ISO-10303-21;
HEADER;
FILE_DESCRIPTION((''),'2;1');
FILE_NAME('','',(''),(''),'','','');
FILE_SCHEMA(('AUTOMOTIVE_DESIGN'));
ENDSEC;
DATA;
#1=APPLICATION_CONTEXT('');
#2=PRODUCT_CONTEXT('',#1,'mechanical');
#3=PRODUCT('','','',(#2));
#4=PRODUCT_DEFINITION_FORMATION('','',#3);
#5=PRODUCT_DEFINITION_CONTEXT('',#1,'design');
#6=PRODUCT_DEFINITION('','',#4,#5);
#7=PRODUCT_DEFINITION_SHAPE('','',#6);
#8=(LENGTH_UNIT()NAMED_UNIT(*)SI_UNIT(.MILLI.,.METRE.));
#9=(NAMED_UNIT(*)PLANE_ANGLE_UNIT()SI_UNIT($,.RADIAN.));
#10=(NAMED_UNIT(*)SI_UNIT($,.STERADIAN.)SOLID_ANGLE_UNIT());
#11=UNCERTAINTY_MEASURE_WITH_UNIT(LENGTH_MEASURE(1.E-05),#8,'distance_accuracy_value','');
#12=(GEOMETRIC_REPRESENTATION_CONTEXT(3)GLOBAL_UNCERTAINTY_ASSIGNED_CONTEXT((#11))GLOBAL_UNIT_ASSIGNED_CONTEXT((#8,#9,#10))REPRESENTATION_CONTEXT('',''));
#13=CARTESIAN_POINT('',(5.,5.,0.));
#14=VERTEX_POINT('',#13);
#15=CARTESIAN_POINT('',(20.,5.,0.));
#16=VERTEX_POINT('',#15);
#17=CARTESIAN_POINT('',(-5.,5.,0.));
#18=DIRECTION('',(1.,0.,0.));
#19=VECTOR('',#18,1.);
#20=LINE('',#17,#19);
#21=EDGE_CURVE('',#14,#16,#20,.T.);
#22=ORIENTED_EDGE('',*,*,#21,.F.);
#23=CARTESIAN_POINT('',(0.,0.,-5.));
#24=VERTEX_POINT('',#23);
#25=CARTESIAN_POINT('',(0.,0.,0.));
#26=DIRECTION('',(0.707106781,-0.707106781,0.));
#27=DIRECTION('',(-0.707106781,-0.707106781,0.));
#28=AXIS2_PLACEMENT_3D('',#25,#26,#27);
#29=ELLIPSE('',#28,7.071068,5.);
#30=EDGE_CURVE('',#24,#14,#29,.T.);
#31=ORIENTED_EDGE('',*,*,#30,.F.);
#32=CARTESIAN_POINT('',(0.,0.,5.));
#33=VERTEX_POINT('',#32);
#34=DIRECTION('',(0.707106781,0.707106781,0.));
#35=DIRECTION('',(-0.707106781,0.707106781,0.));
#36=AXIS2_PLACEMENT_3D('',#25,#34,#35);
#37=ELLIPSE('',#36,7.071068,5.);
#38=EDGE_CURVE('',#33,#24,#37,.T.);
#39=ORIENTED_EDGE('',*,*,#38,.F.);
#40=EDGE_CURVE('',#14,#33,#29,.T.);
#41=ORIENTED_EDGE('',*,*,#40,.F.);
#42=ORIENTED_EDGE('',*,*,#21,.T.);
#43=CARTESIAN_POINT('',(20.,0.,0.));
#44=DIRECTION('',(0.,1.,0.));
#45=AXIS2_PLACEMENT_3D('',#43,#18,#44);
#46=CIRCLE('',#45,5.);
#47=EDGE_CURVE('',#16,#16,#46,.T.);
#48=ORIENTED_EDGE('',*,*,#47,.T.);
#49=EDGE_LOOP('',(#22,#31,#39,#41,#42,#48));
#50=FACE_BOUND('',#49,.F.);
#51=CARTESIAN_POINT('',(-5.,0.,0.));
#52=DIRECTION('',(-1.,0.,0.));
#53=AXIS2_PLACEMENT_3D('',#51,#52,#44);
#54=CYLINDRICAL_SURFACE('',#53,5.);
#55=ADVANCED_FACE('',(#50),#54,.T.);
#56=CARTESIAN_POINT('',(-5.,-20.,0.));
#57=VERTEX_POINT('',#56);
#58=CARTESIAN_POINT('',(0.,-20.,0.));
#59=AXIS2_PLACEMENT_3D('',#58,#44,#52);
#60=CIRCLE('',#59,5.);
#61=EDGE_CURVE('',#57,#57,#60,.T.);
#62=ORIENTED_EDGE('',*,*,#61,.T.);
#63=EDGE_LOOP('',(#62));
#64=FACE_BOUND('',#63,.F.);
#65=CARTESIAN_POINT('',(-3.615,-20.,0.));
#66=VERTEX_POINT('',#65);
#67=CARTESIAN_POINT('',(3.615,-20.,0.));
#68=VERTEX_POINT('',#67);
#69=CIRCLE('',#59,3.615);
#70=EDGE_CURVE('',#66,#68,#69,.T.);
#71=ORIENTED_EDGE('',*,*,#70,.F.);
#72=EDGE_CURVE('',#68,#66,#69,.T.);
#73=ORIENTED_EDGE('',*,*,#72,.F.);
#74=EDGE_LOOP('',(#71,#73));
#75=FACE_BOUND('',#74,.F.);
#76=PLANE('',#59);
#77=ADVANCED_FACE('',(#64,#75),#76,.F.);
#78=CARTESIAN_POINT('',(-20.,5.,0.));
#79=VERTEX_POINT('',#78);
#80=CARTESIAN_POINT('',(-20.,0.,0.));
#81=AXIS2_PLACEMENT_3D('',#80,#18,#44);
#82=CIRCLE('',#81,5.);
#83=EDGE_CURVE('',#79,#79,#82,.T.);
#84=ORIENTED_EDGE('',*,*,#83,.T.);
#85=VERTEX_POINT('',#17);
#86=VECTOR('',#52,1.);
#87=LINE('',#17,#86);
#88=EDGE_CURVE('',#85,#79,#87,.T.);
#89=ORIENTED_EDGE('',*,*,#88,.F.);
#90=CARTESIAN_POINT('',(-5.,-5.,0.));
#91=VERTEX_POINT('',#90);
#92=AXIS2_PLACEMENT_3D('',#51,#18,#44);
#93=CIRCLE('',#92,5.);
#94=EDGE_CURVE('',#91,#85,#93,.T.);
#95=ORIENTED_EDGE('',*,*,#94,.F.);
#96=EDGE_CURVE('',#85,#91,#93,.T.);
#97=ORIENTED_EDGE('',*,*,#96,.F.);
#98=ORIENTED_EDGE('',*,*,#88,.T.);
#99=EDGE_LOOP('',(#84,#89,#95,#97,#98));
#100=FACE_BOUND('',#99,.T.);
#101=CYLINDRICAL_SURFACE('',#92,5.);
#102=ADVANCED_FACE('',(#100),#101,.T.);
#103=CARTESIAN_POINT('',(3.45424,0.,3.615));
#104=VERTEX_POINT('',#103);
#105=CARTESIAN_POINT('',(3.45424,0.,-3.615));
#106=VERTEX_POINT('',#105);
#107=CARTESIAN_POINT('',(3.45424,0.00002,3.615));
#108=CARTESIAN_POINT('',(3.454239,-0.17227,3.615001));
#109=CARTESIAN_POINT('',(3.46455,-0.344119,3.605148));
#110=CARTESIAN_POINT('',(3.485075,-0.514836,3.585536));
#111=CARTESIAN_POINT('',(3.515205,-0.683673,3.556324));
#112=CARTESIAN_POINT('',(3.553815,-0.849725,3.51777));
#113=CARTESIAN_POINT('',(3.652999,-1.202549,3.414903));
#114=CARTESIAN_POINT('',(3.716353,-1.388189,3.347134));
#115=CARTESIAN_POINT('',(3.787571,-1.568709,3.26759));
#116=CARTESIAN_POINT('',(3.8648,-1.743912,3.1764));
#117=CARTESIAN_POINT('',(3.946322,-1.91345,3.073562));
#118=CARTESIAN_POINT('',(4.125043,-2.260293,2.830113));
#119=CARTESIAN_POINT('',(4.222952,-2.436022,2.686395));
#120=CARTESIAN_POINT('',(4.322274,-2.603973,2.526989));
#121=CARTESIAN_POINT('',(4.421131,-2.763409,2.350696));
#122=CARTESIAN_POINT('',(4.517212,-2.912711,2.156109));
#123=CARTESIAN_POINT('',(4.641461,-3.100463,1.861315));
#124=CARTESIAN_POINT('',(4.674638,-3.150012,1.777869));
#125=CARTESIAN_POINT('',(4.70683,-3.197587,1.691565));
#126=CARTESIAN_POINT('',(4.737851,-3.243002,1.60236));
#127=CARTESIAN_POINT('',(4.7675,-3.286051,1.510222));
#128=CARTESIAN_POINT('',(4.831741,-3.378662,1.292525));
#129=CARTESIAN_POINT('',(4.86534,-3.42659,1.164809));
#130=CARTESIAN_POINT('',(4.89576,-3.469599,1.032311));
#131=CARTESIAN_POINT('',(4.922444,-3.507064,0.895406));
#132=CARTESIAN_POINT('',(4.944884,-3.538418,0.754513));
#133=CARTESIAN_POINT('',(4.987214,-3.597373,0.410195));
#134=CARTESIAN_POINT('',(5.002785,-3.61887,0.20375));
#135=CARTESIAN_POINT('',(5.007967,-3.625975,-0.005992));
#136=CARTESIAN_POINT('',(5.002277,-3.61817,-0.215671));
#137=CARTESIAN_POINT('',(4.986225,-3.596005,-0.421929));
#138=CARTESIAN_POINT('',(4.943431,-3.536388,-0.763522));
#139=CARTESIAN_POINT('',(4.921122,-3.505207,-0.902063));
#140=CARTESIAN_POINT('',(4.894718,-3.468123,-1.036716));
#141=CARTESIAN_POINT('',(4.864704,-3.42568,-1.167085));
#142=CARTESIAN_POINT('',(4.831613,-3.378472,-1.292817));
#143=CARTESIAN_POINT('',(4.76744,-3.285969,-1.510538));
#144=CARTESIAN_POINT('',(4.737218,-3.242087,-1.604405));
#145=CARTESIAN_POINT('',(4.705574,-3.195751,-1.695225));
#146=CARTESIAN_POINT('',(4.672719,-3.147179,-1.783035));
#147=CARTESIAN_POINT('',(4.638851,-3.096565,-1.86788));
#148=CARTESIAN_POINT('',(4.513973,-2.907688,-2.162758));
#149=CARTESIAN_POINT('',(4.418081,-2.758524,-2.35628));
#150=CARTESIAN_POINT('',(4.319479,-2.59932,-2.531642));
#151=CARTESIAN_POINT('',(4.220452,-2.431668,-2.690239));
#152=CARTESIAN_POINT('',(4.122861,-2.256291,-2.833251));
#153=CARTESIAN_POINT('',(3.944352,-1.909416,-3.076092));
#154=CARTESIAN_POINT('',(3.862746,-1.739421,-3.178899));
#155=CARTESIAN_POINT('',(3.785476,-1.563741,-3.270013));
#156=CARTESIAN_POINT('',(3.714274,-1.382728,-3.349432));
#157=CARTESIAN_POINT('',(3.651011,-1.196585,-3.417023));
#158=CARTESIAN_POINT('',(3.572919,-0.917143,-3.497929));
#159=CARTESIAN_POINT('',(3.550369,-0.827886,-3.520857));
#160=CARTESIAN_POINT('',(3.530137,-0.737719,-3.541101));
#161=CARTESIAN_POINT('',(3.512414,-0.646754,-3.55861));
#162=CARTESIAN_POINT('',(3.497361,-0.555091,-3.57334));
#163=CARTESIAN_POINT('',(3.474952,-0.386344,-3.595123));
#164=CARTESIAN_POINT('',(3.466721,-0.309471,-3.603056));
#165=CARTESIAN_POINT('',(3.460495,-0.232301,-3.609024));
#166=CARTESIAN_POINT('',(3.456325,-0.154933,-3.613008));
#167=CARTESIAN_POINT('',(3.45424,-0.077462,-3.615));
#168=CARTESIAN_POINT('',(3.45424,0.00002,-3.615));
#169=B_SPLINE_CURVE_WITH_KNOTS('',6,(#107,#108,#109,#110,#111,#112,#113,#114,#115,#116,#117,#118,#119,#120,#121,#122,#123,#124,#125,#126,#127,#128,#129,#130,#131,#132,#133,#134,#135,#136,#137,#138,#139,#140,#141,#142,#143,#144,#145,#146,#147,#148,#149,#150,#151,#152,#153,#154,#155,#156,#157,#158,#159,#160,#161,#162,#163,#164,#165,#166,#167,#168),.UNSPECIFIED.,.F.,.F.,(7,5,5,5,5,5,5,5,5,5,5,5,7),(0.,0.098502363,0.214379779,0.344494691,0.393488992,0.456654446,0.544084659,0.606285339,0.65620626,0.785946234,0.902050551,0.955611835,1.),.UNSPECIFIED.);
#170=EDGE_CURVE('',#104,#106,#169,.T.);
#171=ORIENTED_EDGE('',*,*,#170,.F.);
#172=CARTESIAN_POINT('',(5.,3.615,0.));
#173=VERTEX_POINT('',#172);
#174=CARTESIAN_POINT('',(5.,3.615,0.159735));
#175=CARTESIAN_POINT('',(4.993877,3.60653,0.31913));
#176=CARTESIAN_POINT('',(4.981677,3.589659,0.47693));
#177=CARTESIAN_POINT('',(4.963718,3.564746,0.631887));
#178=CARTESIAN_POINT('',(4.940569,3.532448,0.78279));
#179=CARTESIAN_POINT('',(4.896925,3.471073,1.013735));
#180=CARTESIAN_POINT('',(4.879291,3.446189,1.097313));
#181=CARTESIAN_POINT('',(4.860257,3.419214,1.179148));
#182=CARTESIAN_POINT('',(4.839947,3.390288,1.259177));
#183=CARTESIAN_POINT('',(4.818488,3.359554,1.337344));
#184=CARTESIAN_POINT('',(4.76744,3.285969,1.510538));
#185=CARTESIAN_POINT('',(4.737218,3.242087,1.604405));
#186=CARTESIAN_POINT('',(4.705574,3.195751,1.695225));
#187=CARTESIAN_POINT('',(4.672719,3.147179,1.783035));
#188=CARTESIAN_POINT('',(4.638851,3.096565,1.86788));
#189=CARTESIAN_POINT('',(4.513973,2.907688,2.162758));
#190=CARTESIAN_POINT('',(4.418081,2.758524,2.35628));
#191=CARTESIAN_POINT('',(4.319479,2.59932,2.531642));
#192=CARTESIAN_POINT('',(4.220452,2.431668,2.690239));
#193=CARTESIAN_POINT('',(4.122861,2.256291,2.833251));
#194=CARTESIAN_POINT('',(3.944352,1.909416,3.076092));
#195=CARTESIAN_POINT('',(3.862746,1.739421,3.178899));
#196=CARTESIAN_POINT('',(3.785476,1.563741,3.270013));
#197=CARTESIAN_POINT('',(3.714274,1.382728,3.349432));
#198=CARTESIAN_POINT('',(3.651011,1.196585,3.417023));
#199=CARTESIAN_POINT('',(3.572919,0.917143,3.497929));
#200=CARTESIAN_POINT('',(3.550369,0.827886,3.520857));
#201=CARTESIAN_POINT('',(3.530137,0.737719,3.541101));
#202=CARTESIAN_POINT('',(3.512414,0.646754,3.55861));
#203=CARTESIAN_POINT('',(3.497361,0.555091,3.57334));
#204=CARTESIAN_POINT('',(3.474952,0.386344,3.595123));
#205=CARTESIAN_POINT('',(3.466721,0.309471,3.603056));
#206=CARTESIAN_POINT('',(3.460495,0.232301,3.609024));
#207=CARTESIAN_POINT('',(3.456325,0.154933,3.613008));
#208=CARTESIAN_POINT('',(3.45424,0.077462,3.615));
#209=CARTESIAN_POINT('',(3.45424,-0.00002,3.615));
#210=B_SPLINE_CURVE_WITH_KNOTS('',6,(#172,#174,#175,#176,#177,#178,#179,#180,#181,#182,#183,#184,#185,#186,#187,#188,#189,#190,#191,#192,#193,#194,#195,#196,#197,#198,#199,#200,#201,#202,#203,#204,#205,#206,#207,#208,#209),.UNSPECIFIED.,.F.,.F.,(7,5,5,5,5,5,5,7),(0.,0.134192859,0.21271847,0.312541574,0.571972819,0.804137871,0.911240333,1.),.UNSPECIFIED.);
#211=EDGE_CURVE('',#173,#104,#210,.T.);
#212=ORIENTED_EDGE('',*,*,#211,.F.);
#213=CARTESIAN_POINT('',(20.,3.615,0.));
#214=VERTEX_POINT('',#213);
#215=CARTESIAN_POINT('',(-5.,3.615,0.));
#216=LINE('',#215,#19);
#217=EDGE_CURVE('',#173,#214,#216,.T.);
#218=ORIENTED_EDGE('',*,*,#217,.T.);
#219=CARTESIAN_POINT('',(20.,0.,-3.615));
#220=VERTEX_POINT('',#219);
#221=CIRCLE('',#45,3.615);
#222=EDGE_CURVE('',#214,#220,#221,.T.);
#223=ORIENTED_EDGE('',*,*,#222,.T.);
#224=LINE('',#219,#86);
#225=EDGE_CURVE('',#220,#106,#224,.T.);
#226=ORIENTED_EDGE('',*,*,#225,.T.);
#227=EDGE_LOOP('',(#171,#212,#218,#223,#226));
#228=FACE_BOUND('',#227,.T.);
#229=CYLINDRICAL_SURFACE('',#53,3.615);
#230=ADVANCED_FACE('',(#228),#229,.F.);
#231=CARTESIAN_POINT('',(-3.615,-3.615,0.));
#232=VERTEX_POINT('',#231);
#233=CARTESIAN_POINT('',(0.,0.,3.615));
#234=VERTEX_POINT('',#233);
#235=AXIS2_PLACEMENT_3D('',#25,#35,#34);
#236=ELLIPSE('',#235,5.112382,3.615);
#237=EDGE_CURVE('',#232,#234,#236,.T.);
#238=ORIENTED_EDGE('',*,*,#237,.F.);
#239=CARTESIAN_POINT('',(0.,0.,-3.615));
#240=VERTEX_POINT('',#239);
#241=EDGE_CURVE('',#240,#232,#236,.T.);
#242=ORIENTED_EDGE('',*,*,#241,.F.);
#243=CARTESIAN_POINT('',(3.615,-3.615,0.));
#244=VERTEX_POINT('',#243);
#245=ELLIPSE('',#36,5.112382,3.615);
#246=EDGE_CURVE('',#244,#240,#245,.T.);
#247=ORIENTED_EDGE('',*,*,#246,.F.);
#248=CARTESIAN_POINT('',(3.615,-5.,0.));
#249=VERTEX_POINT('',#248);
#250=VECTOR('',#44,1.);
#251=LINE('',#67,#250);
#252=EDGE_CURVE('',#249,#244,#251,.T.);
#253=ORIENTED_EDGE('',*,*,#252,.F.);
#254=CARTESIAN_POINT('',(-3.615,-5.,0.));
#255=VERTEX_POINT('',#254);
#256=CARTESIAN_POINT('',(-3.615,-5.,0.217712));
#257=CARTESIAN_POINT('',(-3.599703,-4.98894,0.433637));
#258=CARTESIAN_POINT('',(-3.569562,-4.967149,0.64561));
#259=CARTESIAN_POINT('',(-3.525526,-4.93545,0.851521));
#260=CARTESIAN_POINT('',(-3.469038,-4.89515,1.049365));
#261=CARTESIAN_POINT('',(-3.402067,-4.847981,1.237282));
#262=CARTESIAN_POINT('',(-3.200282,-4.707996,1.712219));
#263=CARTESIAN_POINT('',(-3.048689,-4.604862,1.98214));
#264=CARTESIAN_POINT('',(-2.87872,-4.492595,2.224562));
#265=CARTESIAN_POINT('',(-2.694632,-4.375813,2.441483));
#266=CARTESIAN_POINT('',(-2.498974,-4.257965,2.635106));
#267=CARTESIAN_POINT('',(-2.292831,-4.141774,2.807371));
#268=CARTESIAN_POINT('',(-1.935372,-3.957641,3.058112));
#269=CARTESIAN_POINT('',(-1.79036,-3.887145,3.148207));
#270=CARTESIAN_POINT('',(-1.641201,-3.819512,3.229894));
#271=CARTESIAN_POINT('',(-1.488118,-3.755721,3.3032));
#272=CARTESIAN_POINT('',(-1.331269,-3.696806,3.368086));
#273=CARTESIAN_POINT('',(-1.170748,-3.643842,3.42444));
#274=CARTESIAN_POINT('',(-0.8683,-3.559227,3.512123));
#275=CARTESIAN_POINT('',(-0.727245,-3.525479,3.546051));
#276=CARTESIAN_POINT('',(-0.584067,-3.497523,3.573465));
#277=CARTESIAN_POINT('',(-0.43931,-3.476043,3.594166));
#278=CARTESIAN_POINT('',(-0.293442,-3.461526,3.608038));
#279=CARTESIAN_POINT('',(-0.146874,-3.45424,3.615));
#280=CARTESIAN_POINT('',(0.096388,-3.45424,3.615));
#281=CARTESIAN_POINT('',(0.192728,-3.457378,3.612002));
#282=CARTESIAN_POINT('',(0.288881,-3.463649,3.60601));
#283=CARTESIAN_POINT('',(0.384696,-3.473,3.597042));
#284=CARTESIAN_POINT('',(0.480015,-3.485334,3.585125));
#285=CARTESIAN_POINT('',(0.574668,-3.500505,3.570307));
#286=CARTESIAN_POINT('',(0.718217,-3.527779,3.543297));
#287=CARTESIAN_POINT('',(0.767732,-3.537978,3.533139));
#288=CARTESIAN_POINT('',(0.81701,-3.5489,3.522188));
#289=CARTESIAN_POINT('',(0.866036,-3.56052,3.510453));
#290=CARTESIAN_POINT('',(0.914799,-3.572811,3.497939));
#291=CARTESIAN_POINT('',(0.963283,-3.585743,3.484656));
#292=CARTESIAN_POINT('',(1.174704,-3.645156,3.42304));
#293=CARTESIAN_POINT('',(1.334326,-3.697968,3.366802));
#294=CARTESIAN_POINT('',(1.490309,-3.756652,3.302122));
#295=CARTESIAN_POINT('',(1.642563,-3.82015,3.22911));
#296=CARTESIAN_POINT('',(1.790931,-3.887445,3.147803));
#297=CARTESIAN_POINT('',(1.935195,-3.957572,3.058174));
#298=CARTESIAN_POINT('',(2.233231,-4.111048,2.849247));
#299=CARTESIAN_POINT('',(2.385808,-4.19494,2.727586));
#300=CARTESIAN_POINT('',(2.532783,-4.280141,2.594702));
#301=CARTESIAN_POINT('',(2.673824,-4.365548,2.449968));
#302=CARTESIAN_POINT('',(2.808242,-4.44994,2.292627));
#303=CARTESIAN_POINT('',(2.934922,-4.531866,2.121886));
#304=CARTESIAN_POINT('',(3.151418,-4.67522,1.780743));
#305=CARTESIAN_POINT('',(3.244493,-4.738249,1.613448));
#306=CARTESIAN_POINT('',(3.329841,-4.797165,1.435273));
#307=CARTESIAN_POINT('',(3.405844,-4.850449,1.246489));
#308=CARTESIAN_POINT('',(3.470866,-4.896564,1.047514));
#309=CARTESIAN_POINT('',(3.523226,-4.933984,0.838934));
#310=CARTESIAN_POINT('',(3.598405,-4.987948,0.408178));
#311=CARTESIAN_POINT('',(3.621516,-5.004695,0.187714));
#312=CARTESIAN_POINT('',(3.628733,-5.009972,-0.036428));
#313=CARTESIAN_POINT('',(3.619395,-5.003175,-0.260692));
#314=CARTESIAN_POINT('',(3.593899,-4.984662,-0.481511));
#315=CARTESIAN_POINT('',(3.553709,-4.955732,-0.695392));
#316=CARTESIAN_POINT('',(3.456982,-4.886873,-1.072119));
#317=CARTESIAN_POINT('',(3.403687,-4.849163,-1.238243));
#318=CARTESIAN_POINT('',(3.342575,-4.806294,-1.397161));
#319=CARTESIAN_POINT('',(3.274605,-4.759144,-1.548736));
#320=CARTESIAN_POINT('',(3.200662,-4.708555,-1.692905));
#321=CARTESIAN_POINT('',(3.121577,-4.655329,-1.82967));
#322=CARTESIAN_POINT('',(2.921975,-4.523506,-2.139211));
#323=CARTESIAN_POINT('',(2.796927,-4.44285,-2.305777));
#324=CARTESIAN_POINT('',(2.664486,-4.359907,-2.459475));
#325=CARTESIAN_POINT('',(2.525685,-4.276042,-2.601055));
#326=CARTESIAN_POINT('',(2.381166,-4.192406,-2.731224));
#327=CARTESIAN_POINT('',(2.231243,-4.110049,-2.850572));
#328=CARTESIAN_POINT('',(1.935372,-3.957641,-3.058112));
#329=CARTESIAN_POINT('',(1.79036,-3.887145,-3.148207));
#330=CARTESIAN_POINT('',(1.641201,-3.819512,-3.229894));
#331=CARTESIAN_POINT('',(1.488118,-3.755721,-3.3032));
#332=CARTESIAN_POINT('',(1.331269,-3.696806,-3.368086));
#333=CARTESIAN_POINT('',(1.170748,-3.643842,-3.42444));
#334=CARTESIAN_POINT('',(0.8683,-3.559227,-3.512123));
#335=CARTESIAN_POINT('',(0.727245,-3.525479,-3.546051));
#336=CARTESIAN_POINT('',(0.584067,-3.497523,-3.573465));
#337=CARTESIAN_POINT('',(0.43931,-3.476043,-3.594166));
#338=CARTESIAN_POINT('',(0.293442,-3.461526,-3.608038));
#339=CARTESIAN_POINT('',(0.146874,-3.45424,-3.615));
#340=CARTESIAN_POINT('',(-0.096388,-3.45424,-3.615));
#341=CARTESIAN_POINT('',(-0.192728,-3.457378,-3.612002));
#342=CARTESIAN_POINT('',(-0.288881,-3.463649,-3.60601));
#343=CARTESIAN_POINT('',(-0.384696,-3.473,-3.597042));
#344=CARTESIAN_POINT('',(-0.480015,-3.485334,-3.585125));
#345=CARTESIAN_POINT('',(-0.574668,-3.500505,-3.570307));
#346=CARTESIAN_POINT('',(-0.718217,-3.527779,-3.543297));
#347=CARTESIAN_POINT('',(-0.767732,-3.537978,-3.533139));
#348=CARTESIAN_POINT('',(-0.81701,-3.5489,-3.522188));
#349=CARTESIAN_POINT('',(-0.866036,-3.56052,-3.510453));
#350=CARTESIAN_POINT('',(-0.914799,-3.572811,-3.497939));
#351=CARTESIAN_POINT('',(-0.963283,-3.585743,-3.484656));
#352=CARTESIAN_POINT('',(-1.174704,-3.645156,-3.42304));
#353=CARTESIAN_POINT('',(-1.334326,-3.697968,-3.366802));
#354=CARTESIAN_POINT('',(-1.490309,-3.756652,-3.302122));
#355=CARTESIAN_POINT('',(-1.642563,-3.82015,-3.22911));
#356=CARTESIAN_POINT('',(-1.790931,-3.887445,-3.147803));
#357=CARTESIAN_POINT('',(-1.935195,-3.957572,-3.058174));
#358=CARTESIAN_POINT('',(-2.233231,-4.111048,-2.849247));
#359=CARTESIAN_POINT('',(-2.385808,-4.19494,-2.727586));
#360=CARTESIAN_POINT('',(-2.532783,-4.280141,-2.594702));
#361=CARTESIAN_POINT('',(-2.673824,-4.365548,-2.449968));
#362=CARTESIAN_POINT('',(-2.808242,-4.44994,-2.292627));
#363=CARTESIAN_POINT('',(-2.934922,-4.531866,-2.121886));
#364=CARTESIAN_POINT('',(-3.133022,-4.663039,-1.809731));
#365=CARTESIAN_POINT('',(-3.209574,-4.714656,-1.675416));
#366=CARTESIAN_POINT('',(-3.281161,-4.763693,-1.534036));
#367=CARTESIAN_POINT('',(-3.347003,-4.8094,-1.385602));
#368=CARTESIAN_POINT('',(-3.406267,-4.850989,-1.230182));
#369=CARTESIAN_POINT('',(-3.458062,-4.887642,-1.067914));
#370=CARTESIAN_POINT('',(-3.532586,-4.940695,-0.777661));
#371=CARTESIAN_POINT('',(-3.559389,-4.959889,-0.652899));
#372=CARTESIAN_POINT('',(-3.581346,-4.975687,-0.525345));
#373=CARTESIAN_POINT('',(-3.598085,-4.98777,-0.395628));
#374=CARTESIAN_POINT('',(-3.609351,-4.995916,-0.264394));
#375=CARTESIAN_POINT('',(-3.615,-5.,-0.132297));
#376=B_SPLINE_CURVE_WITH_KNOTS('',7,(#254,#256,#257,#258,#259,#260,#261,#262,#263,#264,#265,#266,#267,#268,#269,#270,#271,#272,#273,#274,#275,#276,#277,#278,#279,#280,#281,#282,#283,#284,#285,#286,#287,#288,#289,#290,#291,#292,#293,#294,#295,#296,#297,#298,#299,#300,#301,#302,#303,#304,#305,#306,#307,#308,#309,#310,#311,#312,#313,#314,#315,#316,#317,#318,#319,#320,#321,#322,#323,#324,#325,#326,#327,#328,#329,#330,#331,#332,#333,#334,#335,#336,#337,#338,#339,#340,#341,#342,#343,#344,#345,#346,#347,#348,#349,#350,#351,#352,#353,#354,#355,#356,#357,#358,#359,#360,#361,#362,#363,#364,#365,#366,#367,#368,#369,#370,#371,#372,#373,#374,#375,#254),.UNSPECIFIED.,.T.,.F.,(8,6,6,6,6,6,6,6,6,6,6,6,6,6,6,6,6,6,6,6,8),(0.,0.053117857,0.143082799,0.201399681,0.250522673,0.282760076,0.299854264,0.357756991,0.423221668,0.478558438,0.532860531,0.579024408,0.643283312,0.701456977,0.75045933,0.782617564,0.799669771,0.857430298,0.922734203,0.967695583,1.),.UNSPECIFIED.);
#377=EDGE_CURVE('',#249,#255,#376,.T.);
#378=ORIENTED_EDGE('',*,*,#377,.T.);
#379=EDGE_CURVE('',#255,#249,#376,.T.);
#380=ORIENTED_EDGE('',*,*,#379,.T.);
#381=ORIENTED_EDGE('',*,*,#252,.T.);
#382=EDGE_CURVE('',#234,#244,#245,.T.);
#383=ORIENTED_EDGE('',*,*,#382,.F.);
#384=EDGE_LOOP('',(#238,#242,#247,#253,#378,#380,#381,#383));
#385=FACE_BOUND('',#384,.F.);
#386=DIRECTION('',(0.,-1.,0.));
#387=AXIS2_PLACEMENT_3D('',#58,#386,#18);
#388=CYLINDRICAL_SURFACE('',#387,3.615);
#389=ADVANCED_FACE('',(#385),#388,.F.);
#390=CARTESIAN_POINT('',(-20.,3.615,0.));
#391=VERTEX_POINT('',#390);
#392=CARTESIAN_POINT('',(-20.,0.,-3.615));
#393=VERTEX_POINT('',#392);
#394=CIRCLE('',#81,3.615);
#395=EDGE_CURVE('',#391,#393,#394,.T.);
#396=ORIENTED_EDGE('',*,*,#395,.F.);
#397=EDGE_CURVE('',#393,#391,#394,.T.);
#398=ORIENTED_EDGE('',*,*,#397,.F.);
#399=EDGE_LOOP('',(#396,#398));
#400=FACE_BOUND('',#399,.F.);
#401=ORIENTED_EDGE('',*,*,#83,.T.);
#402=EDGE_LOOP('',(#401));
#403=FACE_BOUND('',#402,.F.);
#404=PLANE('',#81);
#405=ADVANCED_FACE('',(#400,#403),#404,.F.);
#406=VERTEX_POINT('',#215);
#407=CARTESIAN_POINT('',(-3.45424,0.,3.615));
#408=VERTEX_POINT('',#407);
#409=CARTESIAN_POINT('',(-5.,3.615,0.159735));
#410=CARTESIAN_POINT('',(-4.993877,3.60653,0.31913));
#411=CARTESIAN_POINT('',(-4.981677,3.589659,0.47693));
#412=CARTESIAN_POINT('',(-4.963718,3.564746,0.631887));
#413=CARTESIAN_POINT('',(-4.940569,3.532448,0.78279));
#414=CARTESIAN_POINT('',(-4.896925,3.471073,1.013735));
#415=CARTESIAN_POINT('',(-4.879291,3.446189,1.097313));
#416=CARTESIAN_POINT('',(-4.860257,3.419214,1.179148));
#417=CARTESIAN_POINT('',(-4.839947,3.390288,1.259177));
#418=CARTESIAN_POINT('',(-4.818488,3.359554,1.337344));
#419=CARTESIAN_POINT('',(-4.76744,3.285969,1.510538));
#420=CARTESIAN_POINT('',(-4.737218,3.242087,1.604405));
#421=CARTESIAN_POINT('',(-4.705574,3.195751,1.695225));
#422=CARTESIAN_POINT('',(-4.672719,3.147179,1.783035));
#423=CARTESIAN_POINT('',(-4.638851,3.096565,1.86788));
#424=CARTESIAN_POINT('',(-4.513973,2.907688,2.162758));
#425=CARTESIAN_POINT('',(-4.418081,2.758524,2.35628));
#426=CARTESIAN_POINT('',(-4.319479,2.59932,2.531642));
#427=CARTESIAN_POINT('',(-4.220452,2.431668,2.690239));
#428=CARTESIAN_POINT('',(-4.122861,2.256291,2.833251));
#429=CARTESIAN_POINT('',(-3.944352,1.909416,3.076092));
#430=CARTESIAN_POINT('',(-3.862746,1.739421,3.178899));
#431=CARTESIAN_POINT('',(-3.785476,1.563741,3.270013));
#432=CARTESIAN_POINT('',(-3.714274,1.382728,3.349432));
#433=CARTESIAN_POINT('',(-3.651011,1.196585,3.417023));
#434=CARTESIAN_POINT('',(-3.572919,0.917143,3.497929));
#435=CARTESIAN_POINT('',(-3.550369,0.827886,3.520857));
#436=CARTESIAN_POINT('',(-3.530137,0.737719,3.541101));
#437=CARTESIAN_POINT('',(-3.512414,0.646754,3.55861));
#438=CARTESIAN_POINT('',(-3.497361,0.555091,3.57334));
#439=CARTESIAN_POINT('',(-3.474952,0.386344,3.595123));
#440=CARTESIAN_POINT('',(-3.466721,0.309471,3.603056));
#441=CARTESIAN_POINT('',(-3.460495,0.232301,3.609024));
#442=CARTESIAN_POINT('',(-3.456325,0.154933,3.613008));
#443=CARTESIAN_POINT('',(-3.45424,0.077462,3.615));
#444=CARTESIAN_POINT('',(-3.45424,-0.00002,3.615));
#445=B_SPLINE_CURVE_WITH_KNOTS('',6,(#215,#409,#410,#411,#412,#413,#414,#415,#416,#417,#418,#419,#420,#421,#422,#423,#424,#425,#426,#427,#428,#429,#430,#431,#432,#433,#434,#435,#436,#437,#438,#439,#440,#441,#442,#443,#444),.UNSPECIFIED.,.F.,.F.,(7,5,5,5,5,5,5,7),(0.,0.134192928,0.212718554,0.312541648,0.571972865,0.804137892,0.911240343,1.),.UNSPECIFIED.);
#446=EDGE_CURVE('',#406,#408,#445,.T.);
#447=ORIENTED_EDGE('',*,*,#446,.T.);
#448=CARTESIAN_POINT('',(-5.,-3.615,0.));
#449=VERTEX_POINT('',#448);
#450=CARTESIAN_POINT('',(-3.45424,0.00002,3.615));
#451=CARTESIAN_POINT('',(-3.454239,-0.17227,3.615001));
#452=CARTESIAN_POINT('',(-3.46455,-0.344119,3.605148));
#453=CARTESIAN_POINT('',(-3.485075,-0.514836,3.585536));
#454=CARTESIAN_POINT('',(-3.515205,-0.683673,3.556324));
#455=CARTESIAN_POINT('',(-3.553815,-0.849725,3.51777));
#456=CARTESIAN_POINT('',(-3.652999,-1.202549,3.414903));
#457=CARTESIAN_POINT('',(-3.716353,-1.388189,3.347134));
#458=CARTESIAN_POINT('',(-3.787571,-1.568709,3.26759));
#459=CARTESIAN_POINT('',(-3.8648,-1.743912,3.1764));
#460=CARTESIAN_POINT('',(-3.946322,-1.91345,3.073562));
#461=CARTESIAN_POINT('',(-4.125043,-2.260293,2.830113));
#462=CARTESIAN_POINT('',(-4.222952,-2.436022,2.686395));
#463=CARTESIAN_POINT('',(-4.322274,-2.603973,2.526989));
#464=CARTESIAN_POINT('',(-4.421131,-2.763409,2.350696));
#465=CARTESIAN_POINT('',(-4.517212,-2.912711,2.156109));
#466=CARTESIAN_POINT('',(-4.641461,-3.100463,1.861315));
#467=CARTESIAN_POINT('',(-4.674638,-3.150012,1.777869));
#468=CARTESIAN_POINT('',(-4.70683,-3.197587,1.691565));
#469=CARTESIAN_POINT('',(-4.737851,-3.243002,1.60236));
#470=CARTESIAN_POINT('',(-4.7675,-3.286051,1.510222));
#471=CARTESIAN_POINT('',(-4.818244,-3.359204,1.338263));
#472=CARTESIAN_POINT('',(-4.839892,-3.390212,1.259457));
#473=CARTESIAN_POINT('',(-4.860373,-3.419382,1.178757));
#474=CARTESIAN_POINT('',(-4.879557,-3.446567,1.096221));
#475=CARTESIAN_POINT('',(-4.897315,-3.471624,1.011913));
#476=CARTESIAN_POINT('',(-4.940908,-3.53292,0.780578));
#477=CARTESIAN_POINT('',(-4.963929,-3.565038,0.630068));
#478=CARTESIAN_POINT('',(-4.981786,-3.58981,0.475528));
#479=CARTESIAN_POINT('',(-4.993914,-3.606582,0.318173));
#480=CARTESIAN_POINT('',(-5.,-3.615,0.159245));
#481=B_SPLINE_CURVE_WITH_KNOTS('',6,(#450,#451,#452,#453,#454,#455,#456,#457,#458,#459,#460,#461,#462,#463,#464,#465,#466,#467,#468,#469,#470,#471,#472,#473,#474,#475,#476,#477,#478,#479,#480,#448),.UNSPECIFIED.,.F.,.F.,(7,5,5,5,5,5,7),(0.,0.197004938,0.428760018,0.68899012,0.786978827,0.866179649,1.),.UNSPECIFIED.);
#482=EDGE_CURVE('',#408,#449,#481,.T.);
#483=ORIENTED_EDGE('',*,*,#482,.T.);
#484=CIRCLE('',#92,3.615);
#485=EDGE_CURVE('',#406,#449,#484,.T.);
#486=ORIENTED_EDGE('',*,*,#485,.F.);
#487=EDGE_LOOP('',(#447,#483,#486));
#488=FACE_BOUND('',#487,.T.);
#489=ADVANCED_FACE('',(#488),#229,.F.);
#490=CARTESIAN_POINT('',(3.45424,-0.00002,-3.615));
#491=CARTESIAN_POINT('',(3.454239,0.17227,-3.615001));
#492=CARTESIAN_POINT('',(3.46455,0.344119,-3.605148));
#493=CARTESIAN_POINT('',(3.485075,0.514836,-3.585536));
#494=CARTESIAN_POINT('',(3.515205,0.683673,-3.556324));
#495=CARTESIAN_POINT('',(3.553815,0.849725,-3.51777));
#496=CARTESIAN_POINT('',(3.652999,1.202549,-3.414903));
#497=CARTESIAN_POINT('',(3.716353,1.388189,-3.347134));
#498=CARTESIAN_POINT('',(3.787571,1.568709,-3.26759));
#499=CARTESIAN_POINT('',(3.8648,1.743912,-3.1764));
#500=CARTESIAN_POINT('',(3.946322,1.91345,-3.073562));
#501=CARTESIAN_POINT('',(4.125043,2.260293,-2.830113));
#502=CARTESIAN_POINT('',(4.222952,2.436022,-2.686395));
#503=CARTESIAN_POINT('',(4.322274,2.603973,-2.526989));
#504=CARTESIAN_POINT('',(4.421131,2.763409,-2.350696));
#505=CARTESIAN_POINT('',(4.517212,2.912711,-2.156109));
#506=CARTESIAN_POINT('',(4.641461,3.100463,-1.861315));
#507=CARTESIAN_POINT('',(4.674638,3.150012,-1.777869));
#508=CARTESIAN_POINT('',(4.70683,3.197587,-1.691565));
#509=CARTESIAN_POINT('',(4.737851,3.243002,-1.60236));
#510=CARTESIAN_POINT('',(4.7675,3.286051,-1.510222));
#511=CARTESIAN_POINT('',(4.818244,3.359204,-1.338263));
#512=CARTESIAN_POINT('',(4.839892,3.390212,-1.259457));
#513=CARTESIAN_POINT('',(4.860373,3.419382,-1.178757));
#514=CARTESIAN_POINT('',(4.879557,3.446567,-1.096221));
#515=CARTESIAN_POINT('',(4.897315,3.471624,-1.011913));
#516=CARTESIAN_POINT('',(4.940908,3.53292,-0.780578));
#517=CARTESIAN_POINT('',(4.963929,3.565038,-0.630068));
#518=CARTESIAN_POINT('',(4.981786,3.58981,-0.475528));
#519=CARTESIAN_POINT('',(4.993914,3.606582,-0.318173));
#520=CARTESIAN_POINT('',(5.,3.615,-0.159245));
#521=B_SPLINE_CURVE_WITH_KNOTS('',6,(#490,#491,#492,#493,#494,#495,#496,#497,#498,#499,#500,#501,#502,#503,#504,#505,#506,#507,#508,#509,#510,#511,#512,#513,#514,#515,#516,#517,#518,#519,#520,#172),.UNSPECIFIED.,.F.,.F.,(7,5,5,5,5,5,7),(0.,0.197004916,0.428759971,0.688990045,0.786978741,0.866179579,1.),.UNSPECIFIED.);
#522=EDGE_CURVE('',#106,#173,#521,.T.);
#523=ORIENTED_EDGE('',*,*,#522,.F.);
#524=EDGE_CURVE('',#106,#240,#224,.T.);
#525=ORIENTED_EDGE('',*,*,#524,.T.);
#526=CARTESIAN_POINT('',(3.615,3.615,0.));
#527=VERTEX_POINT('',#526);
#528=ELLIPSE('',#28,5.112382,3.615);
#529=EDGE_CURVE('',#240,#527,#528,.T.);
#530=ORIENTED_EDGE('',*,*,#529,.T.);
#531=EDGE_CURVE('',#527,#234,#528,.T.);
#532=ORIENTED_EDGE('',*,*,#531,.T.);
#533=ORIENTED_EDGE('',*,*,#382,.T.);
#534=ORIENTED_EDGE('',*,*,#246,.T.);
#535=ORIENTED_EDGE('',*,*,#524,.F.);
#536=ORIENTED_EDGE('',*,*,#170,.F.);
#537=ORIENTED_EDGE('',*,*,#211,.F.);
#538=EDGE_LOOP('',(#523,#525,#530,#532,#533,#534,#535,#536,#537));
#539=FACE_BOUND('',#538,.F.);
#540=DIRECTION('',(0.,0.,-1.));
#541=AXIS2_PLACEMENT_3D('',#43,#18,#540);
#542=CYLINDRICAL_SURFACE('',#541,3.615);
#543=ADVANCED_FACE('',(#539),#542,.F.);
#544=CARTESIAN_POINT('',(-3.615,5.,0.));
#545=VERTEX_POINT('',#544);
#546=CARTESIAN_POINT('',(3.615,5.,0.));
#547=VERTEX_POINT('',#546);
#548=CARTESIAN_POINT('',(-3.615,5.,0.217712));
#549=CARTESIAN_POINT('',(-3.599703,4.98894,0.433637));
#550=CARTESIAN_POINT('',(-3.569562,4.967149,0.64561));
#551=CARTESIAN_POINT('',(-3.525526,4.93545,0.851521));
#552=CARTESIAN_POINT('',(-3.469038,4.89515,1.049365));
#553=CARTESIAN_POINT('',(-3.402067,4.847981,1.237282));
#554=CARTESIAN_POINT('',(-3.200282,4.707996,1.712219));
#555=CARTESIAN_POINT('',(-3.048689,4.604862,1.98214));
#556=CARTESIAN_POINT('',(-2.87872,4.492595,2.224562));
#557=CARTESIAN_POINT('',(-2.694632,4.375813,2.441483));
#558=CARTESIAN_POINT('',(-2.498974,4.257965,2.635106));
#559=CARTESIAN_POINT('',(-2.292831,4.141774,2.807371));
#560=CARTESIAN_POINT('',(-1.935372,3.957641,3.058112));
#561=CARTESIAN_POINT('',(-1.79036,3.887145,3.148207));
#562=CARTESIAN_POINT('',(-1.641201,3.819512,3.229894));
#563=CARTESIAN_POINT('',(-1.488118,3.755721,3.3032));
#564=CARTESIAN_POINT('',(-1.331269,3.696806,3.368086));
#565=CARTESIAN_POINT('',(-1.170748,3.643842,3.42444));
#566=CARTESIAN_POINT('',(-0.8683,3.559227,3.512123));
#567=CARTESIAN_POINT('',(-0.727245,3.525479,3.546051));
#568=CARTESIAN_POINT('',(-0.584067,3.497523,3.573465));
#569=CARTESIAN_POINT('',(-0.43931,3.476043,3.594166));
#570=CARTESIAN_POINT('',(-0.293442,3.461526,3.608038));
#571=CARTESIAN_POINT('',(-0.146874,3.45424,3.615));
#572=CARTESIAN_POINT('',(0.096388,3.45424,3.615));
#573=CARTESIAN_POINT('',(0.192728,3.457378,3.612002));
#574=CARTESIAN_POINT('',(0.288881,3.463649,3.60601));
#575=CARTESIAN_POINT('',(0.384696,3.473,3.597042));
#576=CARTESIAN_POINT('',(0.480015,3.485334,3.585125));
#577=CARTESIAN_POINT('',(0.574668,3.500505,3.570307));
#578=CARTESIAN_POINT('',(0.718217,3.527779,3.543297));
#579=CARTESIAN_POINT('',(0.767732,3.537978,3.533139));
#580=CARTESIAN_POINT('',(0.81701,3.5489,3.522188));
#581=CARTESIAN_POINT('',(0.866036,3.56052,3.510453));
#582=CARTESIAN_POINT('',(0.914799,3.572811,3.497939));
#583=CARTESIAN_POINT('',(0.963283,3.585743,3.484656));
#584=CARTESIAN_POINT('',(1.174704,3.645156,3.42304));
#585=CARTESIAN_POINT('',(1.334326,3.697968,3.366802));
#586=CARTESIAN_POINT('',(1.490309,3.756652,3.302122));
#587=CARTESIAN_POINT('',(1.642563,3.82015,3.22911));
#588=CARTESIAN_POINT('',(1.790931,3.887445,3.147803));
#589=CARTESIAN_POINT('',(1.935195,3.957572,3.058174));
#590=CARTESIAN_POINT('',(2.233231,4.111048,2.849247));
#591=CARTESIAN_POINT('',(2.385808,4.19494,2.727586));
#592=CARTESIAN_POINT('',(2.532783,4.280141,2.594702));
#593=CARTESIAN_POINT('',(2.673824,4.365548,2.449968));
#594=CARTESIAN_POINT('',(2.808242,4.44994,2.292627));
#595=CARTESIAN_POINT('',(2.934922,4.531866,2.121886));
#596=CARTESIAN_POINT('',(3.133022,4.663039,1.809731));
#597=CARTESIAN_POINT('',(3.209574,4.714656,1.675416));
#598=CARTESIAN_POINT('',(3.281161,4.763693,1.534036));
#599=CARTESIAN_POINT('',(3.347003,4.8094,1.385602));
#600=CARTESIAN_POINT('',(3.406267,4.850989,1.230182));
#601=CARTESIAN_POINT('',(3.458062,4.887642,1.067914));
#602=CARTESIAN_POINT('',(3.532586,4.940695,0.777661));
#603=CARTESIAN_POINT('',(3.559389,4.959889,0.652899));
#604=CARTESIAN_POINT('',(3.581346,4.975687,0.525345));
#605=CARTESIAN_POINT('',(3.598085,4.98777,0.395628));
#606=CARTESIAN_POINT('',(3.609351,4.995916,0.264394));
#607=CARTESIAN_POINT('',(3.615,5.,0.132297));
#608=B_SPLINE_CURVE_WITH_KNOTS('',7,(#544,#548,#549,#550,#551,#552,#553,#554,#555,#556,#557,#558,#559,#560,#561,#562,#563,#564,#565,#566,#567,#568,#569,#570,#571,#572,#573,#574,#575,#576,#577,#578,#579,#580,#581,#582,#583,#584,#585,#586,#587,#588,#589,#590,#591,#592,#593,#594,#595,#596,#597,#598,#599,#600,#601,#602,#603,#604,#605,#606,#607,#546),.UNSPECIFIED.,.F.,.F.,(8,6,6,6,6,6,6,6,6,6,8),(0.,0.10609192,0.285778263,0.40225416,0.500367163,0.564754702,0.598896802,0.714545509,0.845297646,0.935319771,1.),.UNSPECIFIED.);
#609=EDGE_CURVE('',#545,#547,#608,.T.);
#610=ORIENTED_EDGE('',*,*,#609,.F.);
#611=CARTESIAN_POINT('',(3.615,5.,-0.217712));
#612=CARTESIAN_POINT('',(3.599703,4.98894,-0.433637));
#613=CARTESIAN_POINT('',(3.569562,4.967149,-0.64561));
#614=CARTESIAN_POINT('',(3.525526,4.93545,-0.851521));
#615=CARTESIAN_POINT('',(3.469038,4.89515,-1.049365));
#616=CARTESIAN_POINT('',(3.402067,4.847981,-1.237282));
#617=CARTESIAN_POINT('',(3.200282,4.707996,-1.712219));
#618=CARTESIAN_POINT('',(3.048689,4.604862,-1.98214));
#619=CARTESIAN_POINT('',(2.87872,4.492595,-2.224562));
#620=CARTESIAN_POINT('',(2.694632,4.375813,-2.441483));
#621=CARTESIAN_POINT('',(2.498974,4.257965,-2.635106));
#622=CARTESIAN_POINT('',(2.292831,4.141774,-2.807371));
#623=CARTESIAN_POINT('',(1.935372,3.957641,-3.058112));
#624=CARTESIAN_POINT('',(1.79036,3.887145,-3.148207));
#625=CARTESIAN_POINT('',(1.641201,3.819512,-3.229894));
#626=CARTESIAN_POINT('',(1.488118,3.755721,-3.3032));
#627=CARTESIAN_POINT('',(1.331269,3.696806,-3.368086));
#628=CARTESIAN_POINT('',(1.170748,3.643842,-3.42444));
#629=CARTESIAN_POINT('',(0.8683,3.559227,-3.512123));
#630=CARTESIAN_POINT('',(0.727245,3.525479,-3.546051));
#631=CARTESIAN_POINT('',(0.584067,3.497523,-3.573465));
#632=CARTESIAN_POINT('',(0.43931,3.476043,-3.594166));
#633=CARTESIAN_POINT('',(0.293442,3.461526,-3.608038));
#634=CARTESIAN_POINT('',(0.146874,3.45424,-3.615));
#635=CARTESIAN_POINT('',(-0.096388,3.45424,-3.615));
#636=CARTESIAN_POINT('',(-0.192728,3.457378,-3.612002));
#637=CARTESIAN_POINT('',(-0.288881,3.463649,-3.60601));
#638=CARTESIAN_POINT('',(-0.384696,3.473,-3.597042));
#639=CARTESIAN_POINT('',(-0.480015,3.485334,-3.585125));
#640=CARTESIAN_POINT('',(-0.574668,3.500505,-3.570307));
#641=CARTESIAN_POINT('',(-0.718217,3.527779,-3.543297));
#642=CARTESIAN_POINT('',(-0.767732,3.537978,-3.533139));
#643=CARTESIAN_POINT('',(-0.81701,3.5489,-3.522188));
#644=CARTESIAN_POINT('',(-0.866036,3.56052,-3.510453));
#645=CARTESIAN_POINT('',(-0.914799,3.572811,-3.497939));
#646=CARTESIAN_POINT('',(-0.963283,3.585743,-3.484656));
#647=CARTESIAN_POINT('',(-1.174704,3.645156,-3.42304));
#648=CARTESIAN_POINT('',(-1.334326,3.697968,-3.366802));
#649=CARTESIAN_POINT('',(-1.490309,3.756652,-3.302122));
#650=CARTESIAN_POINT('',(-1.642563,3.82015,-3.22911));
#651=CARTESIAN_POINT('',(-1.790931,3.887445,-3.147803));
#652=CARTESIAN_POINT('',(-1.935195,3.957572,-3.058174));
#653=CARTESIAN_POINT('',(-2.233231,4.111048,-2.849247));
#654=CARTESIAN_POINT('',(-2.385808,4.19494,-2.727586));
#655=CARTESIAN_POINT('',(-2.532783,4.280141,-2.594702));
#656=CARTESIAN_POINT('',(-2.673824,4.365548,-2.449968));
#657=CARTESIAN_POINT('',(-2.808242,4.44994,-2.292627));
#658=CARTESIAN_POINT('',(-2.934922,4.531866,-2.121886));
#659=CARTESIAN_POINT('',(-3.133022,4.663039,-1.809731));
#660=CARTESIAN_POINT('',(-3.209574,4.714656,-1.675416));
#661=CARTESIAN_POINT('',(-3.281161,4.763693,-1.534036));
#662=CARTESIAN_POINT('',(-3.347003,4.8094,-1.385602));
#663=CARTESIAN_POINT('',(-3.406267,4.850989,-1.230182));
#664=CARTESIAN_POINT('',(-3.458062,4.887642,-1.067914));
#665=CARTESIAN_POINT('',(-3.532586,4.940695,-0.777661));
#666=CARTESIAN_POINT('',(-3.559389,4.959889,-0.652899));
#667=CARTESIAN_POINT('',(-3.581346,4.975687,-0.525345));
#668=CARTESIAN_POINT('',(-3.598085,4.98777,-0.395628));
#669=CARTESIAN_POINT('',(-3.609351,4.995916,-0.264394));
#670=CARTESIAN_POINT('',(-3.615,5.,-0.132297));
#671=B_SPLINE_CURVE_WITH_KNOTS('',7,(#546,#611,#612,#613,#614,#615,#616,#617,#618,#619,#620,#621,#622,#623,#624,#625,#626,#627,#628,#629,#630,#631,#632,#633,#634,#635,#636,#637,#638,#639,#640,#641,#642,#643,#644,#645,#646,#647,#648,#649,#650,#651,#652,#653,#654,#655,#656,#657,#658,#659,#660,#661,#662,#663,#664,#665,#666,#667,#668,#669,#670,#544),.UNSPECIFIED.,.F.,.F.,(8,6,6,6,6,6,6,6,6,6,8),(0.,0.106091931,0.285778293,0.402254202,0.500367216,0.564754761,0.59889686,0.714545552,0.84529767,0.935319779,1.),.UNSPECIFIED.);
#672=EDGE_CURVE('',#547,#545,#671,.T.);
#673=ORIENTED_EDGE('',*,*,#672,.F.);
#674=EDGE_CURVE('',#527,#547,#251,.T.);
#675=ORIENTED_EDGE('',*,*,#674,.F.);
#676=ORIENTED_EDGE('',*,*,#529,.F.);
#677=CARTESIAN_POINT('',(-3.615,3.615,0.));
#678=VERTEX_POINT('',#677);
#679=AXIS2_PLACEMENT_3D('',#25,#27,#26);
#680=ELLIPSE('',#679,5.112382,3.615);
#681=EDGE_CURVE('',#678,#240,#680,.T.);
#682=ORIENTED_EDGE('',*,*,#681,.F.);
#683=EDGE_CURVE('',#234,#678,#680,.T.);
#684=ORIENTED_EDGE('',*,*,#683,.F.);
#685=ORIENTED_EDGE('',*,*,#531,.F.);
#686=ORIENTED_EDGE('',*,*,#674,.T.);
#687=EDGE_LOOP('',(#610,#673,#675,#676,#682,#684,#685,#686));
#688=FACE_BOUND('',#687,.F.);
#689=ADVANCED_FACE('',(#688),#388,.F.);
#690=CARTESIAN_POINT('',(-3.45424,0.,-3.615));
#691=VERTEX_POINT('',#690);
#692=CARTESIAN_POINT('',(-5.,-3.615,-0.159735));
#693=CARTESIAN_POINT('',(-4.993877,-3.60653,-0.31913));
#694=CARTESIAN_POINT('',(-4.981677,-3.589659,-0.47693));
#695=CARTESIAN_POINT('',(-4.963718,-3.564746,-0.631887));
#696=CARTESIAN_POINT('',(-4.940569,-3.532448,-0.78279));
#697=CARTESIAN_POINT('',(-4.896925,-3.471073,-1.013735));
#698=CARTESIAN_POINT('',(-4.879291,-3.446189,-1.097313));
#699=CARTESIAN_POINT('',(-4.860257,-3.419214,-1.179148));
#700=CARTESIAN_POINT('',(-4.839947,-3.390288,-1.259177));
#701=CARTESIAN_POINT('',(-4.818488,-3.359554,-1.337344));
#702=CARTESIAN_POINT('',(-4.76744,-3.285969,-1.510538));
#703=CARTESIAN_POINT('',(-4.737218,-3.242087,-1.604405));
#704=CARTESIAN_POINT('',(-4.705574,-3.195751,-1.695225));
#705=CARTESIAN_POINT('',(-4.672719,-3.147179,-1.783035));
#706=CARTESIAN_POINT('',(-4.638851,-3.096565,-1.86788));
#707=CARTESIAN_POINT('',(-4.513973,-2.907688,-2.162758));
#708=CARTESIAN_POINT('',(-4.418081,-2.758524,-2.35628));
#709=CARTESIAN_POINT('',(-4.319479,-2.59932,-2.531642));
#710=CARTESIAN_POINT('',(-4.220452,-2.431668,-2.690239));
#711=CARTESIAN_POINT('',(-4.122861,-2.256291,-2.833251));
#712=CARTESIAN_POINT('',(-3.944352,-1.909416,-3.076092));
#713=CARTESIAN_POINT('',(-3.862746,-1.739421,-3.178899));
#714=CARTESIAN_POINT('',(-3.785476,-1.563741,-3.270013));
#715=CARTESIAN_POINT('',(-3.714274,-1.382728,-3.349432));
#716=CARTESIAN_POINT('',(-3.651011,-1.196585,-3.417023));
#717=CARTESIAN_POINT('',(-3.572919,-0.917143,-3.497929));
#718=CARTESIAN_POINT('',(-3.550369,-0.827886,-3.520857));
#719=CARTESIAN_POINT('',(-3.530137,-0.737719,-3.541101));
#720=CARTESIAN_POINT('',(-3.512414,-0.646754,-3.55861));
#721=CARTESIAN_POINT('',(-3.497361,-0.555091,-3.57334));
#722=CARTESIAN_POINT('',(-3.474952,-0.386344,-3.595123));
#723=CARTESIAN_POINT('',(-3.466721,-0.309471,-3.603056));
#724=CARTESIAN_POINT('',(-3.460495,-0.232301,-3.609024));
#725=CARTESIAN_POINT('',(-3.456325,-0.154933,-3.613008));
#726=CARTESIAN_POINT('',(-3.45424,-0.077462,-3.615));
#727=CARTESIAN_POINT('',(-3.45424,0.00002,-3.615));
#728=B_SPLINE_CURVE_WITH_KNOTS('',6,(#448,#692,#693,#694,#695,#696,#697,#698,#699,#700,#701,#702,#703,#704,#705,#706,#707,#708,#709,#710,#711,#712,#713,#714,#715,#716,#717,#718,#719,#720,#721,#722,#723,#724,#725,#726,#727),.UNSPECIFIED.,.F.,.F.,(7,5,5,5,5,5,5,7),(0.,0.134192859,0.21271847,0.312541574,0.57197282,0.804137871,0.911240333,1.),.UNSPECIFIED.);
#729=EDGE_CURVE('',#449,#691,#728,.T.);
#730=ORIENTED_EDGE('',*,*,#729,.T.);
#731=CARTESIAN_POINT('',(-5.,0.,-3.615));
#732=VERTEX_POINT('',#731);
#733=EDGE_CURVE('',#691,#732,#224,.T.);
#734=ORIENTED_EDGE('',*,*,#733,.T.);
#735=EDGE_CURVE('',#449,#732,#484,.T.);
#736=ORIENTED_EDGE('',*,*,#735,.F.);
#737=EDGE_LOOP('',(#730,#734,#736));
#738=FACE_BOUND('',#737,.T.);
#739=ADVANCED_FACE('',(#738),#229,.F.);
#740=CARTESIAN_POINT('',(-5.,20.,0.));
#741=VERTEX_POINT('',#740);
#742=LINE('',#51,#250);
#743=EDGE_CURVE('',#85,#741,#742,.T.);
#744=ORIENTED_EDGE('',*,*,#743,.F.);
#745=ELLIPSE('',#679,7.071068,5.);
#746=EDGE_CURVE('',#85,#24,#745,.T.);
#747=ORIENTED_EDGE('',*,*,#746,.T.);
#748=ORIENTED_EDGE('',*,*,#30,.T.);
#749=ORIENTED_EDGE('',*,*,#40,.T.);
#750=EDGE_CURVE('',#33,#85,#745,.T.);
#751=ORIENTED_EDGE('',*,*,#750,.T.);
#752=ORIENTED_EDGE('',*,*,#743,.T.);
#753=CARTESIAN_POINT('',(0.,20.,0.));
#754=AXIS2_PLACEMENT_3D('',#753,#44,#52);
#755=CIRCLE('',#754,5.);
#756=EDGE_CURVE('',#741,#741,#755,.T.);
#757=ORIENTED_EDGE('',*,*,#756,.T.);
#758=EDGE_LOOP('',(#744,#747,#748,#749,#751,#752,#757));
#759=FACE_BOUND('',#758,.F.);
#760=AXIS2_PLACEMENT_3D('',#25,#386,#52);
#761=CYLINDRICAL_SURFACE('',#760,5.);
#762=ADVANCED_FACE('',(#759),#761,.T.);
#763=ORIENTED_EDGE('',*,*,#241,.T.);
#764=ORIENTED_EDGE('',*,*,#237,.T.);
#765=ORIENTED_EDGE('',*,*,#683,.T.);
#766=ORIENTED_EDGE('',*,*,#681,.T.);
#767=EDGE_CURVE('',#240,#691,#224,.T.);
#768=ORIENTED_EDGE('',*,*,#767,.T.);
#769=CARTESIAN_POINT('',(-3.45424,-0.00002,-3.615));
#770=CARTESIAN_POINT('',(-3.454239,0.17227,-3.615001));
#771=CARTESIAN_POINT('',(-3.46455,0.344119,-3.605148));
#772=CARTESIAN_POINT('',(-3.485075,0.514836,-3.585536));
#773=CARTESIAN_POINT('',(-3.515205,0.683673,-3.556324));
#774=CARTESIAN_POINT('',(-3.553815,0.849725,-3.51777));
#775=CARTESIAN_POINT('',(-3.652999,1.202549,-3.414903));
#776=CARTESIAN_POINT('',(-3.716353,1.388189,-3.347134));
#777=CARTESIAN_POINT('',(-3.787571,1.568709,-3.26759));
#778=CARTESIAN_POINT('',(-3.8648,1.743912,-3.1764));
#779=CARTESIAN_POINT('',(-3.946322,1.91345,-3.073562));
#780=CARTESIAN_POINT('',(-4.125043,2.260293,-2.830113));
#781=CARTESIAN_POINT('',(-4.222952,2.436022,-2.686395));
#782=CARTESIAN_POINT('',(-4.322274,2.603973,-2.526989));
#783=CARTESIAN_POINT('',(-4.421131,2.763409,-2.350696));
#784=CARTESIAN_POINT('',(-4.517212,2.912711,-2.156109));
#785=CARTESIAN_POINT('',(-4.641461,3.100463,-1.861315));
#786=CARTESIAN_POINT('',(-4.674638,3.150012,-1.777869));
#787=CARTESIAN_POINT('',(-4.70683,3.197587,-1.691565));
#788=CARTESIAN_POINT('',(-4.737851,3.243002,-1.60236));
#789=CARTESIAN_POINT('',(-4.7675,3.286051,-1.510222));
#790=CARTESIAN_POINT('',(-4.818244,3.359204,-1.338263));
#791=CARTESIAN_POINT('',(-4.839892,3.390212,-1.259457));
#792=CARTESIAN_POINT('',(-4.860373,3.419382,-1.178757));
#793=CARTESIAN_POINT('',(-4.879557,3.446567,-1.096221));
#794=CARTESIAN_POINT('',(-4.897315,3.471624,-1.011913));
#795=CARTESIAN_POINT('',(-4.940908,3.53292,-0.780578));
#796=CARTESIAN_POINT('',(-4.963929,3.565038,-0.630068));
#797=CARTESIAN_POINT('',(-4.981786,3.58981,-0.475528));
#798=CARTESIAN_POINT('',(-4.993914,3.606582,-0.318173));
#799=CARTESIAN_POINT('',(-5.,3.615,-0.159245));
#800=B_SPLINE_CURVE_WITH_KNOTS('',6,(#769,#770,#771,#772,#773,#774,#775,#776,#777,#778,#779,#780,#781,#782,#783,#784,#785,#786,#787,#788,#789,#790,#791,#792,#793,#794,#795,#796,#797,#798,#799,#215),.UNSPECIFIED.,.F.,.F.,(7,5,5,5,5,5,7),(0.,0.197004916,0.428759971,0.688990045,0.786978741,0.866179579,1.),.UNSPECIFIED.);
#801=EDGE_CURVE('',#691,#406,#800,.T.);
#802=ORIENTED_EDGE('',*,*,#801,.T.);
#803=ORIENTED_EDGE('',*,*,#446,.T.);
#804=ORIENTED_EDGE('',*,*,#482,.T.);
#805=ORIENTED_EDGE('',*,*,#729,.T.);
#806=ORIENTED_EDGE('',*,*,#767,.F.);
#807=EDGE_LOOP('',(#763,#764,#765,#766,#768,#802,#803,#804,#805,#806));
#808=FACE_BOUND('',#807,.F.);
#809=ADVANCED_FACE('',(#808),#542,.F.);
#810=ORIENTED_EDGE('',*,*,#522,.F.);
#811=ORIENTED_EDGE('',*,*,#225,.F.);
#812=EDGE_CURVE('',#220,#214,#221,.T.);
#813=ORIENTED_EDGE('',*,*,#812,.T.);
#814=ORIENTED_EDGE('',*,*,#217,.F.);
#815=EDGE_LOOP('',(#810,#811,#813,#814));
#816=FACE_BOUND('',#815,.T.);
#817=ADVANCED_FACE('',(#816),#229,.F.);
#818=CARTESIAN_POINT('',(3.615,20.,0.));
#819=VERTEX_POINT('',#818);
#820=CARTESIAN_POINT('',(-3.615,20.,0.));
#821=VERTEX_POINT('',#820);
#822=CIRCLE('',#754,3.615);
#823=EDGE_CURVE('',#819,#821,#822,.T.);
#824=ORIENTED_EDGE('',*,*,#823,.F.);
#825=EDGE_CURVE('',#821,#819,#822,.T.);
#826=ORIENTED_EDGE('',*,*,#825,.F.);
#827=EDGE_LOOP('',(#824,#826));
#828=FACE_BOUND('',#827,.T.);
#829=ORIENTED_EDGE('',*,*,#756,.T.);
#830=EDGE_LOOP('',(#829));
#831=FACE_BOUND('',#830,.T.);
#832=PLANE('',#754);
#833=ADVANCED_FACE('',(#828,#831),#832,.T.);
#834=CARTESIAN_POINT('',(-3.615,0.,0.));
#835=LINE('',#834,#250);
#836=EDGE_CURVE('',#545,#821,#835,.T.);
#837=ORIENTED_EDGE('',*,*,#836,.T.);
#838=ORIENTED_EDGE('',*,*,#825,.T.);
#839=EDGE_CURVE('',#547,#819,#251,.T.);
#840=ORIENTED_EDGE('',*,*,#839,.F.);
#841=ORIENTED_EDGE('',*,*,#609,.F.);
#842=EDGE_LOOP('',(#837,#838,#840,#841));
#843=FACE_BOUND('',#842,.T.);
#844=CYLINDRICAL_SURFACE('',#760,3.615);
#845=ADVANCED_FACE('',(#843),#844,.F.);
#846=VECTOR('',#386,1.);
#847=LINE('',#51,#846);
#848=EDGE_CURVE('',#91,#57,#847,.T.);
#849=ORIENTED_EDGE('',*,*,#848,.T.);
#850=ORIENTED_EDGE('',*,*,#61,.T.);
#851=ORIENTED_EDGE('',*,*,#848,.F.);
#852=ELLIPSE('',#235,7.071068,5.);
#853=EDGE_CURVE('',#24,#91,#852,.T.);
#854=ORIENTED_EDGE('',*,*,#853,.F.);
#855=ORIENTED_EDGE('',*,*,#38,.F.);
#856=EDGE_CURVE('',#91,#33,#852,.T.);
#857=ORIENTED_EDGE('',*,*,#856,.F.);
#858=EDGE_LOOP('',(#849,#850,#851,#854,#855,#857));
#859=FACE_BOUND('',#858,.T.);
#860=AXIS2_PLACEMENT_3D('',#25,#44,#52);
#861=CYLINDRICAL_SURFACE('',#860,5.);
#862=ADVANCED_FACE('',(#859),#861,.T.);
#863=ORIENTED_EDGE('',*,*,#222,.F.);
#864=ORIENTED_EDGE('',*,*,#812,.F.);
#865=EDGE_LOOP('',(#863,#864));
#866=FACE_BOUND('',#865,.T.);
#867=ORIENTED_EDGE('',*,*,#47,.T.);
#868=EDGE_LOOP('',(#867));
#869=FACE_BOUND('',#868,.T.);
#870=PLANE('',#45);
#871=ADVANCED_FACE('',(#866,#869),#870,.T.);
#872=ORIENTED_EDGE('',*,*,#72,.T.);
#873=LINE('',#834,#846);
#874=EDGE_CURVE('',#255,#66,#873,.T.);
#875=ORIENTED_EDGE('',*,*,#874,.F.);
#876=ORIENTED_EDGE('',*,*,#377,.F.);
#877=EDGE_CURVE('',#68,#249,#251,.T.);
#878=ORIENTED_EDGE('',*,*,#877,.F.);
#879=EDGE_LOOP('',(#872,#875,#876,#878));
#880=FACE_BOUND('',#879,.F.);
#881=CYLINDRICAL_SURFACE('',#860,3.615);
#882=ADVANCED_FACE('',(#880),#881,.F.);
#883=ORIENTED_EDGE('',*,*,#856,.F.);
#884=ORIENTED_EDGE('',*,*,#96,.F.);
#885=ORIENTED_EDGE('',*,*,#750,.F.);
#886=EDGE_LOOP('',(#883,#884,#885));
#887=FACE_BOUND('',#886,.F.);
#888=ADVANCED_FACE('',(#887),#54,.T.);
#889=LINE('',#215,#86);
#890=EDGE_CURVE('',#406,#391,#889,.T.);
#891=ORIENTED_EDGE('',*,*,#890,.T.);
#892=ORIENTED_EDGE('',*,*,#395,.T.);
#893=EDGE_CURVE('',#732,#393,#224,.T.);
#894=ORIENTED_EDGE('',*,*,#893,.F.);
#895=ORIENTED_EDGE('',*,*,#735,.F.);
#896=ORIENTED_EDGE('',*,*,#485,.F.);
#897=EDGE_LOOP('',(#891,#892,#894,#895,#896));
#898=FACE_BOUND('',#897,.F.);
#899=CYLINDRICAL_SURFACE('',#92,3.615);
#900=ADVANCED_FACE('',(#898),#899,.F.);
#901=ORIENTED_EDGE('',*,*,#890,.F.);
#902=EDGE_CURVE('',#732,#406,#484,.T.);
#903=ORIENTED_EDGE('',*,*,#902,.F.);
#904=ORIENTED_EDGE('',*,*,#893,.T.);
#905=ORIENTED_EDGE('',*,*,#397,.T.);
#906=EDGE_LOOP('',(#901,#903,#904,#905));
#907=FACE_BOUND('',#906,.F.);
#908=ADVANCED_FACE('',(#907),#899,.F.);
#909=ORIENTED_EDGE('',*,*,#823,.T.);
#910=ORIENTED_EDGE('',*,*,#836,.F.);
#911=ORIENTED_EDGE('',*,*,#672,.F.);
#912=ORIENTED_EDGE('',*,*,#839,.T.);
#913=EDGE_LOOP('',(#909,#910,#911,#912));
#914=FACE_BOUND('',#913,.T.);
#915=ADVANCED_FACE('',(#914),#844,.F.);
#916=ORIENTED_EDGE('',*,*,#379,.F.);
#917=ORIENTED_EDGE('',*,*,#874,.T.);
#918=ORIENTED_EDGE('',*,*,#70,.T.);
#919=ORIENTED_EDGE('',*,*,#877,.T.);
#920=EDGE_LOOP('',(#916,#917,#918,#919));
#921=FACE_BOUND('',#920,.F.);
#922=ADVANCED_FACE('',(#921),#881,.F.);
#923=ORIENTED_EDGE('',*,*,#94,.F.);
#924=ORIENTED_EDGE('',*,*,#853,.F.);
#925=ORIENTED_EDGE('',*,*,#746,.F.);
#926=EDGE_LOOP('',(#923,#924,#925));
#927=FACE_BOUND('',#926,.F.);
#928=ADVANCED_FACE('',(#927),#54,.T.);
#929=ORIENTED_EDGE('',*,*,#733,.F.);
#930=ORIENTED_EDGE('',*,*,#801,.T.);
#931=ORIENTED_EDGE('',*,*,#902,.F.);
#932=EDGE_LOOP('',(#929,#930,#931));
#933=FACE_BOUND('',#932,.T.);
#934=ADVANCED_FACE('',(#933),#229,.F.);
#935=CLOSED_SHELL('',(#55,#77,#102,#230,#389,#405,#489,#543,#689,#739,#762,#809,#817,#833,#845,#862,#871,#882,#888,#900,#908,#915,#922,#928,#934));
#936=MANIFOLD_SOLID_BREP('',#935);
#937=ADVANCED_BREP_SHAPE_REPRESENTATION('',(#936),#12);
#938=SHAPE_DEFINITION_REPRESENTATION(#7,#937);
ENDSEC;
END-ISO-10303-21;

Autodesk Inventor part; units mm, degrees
ref_plane "XZ Plane" through (0, 0, 0) normal (0, 1, 0) x (-1, 0, 0)
ref_plane "XY Plane" through (0, 0, 0) normal (0, 0, 1) x (1, 0, 0)
sketch "Sketch1" plane through (0, 0, 0) normal (0, 1, 0) x (-1, 0, 0)
  circle A0 centre (0, 0) radius 3.615
  circle A1 centre (0, 0) radius 5
  dimension "d0" = 7.23
  dimension "d1" = 10
extrude "Extrusion1" add sketch "Sketch1" along normal mid plane 40
ref_plane "Work Plane1" through (-5, 0, 0) normal (1, 0, 0) x (0, 1, 0)
sketch "Sketch2" plane through (-5, 0, 0) normal (1, 0, 0) x (0, 1, 0)
  circle A0 centre (0, 0) radius 3.615
  circle A1 centre (0, 0) radius 5
  dimension "d4" = 7.23
  dimension "d5" = 10
extrude "Extrusion2" add sketch "Sketch2" along normal blind 25 and the other way blind 15
sketch "Sketch3" plane through (20, 0, 0) normal (1, 0, 0) x (0, 0, -1)
  circle A0 centre (0, 0) radius 3.615
extrude "Extrusion3" cut sketch "Sketch3" against normal through all
sketch "Sketch4" plane through (0, -20, 0) normal (0, -1, 0) x (1, 0, 0)
  circle A0 centre (0, 0) radius 3.615
  dimension "d12" = 7.23
extrude "Extrusion4" cut sketch "Sketch4" against normal through all
properties part number "carrefour"
